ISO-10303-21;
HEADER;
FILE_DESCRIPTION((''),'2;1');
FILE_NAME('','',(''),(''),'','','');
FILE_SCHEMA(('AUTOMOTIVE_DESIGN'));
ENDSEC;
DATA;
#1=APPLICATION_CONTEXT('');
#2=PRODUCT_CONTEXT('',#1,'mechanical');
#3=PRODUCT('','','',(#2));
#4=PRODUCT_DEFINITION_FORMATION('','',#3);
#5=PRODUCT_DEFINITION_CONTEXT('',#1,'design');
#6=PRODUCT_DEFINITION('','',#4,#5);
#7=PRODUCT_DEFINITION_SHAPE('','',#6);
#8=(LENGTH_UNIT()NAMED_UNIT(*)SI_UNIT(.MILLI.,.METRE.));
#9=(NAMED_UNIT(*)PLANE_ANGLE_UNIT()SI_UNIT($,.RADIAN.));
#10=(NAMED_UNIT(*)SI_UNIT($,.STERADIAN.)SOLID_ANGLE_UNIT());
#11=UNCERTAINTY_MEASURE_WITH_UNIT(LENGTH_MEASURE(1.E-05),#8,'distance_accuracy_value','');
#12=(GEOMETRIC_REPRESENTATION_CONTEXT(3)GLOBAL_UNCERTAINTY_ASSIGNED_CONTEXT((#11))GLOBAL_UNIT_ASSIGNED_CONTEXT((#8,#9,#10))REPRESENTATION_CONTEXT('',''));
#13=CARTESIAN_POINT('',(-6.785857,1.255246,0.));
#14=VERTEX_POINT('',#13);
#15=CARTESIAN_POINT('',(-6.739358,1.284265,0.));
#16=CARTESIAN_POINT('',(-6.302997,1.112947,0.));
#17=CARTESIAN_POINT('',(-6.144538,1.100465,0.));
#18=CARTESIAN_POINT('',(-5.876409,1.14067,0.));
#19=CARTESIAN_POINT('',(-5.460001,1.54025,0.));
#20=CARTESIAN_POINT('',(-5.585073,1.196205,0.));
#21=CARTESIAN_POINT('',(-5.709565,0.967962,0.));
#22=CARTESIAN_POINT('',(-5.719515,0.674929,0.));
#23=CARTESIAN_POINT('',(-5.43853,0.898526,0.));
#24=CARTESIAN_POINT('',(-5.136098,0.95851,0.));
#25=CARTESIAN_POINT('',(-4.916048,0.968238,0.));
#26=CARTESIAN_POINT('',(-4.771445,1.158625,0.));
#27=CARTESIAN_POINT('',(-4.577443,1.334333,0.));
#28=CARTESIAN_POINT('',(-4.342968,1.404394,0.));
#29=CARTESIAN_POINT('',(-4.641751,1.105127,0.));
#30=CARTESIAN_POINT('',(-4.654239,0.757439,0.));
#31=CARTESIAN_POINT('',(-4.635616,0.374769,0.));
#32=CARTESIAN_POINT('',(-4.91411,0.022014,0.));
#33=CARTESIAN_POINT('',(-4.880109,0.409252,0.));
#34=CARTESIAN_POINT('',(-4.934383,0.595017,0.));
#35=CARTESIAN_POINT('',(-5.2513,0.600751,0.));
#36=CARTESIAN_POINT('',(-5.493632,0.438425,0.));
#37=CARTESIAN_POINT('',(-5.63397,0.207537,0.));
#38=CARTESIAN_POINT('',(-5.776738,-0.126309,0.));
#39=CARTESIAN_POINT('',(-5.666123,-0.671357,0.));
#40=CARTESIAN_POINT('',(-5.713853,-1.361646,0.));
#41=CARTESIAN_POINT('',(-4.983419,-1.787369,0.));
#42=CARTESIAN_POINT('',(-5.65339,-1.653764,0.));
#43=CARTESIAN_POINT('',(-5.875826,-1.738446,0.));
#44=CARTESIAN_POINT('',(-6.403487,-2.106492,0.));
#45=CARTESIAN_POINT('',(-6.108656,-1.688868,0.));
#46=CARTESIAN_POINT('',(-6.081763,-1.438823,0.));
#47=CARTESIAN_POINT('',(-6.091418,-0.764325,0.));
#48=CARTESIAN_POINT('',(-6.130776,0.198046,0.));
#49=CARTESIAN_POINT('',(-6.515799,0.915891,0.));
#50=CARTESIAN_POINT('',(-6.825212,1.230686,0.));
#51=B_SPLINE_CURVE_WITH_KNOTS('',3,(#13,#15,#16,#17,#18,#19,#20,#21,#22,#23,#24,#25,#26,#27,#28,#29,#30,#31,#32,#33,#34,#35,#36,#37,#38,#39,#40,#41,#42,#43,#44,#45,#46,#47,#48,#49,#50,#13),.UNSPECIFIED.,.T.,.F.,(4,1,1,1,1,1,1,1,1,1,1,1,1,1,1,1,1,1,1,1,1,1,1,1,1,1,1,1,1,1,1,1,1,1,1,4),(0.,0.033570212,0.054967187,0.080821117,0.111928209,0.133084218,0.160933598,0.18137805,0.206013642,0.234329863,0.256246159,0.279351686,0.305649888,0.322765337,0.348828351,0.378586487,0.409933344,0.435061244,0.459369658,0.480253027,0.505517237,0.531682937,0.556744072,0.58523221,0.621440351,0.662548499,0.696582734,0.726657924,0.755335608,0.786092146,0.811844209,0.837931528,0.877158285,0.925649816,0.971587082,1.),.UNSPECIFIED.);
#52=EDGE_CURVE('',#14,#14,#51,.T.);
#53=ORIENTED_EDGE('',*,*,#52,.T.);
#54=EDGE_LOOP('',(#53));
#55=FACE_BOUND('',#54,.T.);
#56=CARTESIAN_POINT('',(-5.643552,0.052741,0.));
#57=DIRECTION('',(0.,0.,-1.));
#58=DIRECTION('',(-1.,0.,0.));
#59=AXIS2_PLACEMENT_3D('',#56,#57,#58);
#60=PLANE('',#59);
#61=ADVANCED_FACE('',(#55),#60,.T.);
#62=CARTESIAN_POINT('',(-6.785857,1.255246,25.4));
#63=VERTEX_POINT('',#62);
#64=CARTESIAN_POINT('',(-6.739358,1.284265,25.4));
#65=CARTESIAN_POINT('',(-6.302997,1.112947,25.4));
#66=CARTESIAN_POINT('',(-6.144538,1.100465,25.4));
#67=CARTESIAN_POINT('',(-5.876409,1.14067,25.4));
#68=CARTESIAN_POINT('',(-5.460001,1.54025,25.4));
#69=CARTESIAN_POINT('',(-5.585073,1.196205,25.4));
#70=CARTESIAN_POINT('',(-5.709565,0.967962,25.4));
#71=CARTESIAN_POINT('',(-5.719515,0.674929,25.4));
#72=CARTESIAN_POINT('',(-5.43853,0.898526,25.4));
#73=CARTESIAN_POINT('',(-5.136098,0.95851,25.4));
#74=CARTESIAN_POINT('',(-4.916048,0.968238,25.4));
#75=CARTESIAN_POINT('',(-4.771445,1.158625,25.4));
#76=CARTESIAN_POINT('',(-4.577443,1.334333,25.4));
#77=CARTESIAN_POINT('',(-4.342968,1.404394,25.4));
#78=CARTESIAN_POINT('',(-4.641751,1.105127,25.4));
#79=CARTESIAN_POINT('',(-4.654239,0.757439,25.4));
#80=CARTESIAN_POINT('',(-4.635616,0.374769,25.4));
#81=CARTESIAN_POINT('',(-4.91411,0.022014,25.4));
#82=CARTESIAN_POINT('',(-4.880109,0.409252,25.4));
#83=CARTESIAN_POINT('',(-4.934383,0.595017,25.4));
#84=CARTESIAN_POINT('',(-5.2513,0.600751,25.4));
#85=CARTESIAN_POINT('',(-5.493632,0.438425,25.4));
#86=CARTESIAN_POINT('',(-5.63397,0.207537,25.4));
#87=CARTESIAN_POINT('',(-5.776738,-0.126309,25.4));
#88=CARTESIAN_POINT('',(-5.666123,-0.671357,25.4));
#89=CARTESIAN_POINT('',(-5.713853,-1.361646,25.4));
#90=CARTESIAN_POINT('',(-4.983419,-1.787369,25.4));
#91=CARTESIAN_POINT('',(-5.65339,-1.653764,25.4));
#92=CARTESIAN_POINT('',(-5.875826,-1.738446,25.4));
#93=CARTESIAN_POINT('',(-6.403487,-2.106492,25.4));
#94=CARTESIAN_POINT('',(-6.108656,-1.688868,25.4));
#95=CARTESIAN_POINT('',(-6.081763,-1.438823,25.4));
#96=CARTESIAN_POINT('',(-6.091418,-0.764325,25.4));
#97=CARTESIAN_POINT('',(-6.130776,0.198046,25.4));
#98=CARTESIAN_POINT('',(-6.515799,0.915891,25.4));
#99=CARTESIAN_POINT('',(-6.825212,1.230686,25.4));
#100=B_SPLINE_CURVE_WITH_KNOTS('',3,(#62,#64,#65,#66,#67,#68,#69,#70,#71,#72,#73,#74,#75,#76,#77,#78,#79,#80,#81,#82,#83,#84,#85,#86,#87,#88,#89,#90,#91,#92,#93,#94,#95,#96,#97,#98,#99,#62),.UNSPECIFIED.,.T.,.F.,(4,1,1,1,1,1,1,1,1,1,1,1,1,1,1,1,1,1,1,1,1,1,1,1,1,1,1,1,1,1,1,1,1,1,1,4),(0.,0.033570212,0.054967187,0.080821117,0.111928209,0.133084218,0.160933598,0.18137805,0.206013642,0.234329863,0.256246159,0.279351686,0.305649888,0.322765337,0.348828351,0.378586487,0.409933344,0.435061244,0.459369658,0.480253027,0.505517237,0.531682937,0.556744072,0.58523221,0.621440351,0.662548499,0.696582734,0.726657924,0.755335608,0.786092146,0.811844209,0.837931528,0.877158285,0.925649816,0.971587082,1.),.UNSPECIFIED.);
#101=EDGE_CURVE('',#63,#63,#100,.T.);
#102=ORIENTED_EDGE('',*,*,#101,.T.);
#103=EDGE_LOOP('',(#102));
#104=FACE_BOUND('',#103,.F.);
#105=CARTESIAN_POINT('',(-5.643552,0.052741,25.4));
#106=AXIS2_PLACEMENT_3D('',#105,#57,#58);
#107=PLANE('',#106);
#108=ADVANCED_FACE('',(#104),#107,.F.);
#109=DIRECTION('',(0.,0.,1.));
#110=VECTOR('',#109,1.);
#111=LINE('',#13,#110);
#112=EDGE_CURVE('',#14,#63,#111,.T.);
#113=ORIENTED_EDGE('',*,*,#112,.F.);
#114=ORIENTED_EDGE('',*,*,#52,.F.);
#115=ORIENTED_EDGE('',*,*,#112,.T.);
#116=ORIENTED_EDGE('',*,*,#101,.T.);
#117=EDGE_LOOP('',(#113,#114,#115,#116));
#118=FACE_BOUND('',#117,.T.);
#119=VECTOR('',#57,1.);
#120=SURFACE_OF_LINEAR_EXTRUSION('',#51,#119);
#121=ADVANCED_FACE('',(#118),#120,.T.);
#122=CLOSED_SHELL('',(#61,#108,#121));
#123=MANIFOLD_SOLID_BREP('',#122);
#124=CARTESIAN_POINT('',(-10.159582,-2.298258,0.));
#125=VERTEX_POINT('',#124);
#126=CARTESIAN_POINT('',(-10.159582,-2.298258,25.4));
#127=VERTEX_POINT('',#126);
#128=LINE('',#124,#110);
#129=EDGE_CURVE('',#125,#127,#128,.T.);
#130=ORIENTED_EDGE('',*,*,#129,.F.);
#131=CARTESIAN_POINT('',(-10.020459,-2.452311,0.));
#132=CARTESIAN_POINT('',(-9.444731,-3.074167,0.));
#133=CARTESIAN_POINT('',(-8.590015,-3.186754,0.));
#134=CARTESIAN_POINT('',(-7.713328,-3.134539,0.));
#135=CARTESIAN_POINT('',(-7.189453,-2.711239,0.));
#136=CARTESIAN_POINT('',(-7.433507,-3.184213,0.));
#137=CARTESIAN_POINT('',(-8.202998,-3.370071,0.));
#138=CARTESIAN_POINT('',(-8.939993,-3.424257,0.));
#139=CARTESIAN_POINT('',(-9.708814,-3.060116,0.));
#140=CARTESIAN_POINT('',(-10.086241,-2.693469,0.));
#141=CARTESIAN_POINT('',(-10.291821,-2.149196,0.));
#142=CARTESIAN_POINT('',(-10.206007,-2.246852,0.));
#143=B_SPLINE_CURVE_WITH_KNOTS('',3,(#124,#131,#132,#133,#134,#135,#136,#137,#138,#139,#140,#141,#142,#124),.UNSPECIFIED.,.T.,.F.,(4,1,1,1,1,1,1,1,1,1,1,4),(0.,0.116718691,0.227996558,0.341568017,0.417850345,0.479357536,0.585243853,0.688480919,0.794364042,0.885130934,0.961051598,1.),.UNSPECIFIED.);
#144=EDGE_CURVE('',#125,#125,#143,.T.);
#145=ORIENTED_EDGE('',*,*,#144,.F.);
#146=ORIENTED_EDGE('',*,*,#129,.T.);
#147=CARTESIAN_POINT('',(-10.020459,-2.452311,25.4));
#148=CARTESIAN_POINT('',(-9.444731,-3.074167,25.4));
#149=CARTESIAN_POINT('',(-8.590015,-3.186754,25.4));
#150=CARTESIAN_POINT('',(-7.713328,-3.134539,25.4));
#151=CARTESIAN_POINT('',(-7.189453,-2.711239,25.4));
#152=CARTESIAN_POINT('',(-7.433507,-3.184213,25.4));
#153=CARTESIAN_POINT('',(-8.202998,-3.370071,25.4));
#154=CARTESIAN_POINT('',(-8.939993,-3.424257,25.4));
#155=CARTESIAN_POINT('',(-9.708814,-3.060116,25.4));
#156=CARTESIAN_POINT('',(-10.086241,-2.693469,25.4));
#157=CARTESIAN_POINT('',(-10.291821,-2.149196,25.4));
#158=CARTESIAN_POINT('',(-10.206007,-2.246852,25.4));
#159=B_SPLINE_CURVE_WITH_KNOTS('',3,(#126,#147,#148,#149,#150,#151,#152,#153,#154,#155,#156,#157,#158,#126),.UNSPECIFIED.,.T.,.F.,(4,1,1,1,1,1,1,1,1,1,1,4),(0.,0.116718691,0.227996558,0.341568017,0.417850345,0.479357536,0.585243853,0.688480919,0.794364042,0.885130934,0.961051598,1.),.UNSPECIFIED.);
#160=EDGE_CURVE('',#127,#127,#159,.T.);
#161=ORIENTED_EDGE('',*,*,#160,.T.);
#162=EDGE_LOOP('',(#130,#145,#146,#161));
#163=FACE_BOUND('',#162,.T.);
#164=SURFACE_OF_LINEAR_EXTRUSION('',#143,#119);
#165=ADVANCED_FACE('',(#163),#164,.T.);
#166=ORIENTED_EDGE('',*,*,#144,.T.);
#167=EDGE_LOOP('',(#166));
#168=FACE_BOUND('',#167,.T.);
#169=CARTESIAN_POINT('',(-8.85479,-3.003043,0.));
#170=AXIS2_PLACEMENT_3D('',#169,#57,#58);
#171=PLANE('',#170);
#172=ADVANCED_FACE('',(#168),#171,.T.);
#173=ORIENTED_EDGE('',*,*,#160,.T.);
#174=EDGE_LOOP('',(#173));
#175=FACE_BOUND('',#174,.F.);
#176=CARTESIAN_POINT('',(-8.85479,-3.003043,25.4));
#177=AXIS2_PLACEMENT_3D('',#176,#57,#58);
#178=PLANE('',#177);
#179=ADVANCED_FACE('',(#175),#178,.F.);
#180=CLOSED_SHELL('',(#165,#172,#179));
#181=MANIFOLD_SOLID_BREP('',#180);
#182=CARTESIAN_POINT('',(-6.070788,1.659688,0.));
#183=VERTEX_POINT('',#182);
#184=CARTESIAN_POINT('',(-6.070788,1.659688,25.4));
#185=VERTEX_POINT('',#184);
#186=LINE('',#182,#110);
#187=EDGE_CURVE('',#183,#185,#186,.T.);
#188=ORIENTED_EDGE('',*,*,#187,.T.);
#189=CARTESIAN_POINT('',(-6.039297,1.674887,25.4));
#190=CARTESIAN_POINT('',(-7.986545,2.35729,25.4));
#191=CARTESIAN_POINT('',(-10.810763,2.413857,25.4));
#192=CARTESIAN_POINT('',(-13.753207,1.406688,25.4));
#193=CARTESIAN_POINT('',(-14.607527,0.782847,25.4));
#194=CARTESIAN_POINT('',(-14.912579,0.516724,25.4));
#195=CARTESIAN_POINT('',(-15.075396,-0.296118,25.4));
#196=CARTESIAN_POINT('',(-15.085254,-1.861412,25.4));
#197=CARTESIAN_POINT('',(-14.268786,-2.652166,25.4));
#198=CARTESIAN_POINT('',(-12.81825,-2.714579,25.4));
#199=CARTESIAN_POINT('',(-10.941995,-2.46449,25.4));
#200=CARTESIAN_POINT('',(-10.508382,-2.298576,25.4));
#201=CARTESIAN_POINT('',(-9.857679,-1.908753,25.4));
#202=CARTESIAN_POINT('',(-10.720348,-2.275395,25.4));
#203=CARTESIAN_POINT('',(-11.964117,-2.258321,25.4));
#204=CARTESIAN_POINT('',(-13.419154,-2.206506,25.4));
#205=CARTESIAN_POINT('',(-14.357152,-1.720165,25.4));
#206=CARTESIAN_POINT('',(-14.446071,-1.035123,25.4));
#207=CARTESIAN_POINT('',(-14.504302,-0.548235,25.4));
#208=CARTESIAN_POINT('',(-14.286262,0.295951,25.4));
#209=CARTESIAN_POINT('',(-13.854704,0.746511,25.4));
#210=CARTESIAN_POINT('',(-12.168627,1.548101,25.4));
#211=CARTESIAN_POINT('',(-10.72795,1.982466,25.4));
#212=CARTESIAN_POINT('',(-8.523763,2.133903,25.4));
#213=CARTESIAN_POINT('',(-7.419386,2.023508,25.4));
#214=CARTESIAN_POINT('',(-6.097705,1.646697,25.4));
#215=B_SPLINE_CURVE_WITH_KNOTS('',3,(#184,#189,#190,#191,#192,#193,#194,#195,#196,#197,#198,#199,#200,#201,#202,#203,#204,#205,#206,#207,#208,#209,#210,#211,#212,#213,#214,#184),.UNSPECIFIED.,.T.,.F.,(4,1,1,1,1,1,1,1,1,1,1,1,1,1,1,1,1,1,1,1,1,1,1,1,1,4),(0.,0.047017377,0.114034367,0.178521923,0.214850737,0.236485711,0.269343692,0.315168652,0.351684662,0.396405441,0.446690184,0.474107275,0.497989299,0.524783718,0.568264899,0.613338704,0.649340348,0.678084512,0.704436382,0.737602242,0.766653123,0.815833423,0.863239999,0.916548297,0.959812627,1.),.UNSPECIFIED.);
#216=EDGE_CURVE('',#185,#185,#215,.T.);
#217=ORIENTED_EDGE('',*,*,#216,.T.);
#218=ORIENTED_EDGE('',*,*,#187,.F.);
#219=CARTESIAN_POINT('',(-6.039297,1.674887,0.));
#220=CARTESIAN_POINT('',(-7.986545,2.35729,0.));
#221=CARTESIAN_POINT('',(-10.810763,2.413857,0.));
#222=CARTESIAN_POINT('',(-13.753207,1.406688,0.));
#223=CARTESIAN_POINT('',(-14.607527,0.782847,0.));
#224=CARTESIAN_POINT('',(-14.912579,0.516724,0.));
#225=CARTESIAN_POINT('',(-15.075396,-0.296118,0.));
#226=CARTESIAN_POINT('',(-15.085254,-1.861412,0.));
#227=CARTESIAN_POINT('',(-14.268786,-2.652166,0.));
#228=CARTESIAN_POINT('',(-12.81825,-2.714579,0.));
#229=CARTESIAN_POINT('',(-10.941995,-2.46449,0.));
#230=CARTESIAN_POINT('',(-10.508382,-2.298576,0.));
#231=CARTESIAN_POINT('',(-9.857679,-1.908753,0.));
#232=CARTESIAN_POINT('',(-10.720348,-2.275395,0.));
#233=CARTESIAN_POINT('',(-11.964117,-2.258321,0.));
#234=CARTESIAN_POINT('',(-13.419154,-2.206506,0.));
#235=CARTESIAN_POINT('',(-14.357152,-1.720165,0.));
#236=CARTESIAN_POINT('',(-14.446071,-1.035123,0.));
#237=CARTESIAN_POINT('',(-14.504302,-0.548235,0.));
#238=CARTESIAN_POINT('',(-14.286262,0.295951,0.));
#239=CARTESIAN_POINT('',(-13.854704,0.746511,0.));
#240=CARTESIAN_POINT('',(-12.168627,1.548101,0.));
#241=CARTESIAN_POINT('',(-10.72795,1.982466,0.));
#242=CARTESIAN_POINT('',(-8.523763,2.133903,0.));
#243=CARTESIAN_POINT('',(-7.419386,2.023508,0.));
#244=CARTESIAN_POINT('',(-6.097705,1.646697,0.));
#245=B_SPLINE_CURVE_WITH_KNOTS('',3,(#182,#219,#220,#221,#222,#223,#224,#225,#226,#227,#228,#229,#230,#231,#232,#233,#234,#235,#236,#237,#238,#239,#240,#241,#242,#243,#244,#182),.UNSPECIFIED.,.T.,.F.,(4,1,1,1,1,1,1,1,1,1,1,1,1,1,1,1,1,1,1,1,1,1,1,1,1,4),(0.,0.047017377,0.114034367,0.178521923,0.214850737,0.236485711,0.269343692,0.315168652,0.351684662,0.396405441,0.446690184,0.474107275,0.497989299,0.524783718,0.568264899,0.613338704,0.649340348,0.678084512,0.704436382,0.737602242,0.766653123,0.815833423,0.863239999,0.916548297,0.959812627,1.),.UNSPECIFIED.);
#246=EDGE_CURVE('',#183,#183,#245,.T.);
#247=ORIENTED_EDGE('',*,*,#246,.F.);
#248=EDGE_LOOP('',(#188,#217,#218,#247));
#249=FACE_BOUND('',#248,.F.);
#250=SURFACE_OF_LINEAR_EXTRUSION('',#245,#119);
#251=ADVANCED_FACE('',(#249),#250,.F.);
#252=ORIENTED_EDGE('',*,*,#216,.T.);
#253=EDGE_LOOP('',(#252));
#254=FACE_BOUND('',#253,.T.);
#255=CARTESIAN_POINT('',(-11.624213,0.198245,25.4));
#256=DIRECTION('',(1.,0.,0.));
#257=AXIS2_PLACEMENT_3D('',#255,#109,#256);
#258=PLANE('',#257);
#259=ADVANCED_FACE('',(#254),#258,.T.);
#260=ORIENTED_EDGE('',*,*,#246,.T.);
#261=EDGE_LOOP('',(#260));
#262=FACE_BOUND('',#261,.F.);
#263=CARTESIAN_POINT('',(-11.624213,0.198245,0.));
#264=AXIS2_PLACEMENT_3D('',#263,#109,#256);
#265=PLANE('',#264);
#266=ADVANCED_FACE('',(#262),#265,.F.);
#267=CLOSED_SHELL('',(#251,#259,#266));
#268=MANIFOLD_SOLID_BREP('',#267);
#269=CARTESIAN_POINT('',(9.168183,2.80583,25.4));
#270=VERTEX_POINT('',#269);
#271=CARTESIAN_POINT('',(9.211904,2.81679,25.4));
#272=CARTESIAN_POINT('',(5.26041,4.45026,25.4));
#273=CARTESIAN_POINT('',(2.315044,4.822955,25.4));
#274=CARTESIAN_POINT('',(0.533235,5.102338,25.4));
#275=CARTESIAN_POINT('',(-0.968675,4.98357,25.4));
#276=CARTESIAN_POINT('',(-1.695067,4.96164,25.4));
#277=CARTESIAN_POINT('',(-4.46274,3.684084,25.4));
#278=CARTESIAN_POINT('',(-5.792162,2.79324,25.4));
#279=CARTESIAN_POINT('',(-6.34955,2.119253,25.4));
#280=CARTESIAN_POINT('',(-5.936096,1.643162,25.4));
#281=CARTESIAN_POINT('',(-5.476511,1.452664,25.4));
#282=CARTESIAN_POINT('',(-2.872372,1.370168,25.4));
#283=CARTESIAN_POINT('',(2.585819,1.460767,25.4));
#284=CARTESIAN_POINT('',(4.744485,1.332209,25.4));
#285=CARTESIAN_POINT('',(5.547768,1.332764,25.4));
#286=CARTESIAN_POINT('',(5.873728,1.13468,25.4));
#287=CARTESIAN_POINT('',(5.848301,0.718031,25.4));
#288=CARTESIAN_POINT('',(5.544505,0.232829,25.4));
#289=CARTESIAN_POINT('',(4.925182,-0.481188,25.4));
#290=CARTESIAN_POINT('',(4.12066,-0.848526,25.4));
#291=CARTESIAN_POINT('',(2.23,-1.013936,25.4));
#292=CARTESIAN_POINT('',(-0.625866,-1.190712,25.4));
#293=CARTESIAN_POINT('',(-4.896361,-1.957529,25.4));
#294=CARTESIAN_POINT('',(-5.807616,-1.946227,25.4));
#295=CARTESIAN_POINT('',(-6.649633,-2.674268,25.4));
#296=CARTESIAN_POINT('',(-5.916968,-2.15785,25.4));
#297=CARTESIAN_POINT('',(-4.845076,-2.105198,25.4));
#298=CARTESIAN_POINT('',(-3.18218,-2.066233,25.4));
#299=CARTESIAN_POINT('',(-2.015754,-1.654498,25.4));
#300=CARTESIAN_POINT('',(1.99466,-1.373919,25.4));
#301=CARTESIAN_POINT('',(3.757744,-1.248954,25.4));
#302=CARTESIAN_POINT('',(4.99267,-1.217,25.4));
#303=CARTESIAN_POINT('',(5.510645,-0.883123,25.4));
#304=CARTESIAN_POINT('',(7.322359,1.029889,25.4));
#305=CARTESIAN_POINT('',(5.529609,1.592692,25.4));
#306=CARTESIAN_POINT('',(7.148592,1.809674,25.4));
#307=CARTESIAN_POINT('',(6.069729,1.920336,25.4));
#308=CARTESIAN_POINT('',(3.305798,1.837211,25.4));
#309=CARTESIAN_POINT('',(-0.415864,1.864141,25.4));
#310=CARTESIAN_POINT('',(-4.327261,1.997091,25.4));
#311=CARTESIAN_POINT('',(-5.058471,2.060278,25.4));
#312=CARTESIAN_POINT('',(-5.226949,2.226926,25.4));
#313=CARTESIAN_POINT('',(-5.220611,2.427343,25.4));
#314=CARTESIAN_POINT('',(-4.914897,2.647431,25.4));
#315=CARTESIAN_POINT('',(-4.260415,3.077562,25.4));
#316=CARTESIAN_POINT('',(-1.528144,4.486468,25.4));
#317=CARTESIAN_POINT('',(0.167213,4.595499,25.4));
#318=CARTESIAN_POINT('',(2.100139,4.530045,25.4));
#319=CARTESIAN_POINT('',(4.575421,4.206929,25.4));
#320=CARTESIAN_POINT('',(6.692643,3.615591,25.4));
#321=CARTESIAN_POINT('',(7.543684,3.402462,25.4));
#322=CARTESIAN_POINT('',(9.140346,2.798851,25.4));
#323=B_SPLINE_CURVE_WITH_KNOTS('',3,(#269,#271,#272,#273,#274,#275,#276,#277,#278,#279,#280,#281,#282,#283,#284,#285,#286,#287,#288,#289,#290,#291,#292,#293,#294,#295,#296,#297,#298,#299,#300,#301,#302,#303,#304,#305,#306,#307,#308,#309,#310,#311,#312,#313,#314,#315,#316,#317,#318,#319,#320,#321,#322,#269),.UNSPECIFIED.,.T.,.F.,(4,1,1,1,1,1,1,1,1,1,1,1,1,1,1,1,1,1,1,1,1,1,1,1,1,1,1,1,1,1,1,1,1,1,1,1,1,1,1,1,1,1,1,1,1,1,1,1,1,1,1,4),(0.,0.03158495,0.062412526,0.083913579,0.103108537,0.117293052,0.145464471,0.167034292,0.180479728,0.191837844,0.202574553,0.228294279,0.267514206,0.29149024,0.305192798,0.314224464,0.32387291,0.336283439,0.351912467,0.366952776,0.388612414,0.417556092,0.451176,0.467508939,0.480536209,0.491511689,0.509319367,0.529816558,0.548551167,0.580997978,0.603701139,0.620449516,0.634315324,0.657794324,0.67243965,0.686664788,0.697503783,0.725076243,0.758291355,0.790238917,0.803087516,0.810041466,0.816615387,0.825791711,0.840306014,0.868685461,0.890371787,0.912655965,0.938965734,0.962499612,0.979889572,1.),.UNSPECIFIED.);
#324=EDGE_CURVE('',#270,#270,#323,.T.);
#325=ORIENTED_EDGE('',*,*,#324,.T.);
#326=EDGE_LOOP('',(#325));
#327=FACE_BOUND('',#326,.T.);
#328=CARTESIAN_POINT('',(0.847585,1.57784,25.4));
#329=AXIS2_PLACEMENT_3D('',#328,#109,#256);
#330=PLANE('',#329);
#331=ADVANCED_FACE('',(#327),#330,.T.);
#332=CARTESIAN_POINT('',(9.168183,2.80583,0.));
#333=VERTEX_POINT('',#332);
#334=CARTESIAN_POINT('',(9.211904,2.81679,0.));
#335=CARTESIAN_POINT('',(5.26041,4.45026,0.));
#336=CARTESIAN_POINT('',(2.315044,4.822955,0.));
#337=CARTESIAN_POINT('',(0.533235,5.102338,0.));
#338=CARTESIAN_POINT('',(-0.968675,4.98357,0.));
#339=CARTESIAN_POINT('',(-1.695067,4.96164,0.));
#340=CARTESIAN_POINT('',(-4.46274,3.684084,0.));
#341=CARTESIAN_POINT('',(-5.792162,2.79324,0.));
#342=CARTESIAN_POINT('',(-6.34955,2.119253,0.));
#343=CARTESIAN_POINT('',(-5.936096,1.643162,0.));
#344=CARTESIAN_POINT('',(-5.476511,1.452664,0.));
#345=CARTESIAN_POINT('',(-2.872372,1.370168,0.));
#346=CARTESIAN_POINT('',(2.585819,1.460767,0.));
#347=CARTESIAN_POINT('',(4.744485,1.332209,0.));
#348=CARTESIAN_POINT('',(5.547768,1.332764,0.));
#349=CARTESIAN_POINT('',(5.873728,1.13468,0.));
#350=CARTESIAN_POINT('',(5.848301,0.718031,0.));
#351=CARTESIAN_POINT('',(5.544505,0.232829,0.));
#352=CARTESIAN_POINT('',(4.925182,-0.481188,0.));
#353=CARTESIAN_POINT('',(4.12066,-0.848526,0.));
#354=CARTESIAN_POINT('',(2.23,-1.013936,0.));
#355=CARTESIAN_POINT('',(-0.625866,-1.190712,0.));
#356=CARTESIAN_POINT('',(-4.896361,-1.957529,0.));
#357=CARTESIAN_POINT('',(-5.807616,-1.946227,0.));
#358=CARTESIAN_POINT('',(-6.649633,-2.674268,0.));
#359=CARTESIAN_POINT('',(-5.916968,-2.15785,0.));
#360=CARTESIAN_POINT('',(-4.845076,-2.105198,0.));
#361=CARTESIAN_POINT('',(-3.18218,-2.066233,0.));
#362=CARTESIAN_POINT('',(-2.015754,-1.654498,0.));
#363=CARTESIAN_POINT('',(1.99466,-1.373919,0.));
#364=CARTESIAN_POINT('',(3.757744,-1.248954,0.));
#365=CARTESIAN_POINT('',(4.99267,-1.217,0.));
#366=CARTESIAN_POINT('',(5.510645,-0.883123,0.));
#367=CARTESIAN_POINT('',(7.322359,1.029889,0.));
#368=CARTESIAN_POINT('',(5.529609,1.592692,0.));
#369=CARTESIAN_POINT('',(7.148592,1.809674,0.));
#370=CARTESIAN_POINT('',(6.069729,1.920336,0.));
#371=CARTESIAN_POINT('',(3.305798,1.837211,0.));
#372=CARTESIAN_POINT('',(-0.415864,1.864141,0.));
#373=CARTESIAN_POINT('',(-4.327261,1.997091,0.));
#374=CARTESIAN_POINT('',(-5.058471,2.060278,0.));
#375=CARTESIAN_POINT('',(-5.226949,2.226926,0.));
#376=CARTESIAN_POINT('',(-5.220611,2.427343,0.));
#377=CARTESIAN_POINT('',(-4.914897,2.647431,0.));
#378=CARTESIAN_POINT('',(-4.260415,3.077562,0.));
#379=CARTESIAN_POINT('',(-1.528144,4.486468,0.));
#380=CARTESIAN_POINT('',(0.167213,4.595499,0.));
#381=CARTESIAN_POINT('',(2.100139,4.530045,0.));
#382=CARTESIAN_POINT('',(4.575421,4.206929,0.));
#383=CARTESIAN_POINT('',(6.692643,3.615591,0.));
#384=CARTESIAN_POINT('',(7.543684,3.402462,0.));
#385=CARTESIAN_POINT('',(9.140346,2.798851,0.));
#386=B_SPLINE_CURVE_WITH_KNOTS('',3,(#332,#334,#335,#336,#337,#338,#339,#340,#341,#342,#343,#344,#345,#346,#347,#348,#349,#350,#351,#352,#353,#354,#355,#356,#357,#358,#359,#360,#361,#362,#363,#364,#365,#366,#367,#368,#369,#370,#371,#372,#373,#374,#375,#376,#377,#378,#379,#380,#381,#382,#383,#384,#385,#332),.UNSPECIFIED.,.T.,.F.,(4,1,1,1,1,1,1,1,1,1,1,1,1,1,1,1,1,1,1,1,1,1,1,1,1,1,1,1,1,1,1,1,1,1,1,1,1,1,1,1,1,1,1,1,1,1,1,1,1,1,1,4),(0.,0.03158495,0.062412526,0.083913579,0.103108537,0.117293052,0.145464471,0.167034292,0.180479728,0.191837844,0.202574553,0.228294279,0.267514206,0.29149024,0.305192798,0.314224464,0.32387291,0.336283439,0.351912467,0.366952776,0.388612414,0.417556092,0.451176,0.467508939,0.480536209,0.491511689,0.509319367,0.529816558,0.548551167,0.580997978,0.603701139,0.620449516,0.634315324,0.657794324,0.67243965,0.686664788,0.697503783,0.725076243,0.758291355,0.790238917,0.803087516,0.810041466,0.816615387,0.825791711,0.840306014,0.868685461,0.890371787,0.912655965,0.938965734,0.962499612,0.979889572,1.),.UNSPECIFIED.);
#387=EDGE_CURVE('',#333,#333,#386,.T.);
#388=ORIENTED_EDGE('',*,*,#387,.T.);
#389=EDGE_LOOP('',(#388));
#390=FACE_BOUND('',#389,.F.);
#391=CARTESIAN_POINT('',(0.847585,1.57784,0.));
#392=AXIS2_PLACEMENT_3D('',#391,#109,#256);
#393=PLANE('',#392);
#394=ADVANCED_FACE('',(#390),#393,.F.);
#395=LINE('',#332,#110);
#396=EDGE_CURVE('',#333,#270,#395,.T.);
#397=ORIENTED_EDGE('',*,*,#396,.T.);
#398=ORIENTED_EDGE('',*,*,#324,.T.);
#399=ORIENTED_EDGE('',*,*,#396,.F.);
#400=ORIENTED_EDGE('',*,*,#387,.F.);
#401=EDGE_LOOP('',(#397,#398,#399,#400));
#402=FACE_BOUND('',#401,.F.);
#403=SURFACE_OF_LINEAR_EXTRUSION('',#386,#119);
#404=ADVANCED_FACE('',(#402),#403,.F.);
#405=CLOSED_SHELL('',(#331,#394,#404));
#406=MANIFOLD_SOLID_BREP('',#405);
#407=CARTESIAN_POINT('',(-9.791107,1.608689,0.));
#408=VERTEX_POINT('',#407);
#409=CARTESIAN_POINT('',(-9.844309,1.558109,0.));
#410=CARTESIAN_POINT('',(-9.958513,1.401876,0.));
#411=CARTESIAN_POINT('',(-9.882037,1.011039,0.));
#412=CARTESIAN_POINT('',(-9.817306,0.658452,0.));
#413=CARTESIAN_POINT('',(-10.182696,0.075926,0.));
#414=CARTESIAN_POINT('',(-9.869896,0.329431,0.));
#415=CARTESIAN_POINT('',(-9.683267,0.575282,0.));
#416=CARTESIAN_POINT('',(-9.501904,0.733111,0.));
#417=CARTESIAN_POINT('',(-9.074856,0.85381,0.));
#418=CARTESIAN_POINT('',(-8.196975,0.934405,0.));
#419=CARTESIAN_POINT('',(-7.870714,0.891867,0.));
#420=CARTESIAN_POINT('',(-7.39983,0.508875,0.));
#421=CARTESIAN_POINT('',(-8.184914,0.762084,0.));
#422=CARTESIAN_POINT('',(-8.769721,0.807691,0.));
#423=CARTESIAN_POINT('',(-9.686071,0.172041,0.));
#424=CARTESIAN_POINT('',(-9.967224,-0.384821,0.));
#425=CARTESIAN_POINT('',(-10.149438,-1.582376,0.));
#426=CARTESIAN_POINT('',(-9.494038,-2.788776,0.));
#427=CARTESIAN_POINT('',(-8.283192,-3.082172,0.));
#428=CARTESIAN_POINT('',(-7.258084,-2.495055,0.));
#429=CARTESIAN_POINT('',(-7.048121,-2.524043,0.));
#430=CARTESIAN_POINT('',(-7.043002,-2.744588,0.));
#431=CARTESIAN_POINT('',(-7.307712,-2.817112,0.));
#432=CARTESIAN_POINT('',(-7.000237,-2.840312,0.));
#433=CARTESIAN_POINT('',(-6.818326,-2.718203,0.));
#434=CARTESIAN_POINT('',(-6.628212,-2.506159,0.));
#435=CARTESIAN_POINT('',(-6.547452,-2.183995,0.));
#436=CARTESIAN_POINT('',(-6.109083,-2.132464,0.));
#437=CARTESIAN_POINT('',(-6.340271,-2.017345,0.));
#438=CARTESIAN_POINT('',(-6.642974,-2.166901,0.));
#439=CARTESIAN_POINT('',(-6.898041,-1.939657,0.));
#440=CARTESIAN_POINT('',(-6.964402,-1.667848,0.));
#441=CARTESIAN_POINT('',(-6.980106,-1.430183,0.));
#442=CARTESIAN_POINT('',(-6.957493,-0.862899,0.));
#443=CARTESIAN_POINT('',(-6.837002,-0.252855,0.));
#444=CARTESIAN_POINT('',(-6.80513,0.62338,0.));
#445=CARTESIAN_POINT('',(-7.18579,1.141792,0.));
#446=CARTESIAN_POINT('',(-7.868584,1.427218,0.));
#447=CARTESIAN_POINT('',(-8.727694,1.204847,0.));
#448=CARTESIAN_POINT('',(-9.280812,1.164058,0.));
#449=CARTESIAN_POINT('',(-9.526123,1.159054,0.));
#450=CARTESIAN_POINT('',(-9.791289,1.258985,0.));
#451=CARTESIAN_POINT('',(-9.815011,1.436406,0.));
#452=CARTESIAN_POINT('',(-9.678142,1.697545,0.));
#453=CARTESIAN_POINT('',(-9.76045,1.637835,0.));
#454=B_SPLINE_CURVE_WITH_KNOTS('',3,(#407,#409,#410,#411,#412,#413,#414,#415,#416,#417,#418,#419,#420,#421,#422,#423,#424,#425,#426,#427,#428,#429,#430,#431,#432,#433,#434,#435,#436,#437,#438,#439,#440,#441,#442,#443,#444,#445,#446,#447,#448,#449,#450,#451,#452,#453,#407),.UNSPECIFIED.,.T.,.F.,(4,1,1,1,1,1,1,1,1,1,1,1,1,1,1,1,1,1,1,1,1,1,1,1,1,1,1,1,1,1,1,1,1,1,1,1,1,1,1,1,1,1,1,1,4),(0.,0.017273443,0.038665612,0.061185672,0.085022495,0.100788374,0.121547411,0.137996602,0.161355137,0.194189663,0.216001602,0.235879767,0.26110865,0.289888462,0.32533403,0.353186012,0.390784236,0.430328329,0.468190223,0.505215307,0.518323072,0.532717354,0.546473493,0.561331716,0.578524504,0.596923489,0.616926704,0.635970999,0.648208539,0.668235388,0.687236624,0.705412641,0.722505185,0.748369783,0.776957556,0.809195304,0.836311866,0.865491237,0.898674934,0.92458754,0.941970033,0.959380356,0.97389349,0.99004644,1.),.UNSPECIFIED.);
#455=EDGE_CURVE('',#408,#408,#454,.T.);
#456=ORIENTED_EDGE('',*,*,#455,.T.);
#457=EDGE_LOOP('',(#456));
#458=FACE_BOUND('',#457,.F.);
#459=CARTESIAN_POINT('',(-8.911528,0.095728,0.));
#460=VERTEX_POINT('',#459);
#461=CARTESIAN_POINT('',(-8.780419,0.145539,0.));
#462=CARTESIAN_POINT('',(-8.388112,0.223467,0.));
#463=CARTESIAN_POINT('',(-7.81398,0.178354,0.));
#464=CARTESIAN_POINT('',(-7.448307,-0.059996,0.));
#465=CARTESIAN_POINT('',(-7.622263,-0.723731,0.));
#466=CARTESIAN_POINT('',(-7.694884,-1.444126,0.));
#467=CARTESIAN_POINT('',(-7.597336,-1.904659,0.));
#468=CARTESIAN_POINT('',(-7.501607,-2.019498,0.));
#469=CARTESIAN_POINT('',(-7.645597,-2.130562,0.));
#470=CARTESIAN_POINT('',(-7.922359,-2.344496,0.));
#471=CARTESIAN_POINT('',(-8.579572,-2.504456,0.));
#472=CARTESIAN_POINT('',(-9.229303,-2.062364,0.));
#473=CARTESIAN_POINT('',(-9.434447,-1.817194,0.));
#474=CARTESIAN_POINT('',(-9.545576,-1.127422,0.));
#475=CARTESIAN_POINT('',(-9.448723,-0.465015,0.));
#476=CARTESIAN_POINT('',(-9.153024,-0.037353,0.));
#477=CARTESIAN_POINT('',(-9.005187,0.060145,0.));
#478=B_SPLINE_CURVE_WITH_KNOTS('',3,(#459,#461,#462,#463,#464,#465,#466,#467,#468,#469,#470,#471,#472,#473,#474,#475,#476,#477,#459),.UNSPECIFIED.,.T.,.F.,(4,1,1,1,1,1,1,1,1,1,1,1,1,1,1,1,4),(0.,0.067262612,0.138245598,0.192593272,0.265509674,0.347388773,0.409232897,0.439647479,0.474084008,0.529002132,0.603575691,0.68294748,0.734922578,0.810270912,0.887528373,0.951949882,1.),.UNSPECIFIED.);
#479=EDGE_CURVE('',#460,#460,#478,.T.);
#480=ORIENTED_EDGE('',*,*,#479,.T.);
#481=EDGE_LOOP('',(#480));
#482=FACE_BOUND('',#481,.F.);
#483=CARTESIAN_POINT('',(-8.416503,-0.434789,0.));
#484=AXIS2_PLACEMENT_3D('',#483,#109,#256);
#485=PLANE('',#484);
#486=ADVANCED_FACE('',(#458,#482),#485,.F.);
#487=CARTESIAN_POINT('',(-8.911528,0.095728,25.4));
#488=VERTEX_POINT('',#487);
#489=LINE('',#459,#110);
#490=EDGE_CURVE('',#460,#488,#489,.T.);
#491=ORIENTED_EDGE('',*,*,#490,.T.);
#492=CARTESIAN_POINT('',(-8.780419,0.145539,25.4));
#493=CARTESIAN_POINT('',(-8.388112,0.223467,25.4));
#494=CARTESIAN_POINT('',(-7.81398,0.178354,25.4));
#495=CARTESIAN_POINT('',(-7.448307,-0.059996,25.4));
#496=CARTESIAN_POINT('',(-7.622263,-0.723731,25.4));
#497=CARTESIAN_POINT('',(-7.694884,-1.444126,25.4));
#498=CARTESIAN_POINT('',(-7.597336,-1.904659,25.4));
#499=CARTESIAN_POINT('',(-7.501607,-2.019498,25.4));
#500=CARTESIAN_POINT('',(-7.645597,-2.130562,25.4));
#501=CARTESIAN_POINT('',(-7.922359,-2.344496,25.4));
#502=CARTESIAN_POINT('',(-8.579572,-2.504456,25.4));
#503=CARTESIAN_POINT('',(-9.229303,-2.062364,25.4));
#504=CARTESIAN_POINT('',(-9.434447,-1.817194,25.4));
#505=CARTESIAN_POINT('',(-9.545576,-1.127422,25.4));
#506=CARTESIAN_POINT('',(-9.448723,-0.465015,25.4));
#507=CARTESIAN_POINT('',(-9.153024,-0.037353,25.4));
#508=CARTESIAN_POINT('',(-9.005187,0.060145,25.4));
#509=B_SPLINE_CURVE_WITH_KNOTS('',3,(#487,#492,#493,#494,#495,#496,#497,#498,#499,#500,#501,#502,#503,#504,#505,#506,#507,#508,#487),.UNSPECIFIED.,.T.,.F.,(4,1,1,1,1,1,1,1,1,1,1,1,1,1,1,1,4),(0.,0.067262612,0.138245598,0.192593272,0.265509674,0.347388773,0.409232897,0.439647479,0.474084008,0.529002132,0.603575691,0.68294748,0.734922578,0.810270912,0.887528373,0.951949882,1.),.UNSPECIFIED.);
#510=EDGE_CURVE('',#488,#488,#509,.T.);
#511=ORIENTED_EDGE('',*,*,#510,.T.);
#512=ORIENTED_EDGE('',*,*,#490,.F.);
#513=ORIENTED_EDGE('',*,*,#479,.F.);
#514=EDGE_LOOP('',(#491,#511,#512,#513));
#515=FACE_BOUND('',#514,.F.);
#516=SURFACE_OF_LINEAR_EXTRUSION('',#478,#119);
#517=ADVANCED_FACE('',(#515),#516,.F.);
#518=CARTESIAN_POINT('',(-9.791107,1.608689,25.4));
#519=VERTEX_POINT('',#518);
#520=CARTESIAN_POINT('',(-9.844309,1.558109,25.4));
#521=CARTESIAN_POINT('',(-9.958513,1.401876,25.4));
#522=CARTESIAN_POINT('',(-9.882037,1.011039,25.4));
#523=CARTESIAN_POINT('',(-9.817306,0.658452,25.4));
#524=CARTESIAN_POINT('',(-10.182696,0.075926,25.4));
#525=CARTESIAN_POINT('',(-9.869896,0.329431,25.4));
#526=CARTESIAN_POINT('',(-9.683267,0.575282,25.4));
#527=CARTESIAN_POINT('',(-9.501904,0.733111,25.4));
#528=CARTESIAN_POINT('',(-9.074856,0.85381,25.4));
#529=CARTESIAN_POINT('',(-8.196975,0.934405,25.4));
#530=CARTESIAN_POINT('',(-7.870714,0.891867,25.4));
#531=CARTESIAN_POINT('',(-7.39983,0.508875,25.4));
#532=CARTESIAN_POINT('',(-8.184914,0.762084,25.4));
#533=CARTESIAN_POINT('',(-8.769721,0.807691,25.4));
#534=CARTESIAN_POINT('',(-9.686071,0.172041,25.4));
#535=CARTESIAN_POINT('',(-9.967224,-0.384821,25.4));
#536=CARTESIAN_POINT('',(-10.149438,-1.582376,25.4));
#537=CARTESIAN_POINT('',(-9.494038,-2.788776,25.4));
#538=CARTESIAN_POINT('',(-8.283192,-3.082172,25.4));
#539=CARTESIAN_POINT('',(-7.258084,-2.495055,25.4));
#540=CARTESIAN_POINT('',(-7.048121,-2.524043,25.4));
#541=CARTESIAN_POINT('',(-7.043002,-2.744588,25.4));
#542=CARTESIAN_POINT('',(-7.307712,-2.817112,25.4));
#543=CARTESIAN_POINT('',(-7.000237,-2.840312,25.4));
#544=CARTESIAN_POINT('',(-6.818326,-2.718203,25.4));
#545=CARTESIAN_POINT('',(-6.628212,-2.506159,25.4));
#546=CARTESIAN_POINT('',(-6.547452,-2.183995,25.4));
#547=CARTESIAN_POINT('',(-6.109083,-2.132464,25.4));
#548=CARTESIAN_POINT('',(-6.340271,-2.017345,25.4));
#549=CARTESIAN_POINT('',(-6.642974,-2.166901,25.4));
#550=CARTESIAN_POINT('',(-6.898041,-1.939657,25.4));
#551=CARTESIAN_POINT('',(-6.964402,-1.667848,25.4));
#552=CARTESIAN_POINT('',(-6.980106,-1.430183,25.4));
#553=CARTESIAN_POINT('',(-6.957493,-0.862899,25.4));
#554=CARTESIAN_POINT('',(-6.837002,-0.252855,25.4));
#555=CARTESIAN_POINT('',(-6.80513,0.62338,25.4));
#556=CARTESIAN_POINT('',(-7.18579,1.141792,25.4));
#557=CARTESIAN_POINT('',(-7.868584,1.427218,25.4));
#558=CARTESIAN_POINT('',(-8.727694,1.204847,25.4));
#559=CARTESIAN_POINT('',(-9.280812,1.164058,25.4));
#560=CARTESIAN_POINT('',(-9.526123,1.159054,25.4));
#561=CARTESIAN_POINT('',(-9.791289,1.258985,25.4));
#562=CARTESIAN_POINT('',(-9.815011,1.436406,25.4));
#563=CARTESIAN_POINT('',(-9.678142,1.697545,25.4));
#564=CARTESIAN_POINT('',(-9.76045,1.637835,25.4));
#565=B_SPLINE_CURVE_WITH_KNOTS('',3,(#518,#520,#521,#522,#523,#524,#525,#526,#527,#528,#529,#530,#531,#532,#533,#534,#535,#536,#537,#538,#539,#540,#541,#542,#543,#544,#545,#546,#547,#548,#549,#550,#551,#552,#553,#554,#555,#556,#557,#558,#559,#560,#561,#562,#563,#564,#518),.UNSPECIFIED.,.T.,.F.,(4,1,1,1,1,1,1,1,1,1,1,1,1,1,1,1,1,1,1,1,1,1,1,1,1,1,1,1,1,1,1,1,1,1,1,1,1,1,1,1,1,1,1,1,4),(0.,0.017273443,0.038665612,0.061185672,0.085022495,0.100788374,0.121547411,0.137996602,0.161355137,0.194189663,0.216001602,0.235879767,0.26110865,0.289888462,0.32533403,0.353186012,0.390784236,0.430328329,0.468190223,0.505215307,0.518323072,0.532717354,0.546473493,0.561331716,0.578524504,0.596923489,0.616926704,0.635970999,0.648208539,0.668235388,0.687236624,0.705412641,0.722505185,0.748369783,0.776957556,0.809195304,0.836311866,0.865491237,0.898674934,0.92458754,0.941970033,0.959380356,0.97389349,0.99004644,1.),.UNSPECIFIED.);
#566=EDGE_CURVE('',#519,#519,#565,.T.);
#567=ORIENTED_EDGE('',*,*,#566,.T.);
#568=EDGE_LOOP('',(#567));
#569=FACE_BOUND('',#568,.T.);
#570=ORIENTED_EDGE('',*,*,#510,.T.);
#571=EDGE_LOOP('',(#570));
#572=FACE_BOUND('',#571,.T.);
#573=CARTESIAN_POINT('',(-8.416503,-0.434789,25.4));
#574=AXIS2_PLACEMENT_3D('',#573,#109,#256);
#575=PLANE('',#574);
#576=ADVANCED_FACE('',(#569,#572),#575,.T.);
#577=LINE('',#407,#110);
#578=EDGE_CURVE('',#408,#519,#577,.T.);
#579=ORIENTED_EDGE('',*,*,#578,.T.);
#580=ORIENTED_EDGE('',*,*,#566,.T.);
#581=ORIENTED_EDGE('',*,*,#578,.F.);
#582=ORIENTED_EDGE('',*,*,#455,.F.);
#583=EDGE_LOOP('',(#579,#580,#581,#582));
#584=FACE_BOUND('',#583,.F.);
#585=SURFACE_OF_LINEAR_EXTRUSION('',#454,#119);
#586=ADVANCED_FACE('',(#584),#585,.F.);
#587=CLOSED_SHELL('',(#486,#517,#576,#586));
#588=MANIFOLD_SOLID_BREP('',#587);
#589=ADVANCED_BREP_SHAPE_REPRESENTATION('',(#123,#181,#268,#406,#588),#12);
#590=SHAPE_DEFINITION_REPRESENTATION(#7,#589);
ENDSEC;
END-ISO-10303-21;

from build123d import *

# Parameters (mm, degrees)
F1_DEPTH = 25.4


with BuildPart() as f1:
    # F0 (on Top) → F1 (new body)
    with BuildSketch(Plane.XY):
        with BuildLine():
            add(Edge.make_bspline(
                [(-6.070788067, 1.659688225), (-6.0392969105, 1.6748872636), (-7.9865450854, 2.3572901074), (-10.810763013, 2.4138569999), (-13.7532069018, 1.4066882336), (-14.607527423, 0.7828469998), (-14.9125791538, 0.5167235568), (-15.0753964581, -0.2961176011), (-15.0852540529, -1.8614116088), (-14.2687864055, -2.6521656901), (-12.8182498806, -2.7145787636), (-10.9419950316, -2.464490446), (-10.5083824487, -2.2985761302), (-9.8576791767, -1.9087534897), (-10.7203476657, -2.2753952771), (-11.9641168756, -2.2583214018), (-13.4191535903, -2.2065056144), (-14.3571519855, -1.7201650346), (-14.4460714924, -1.0351234837), (-14.5043018219, -0.5482353129), (-14.2862617607, 0.2959506723), (-13.8547044173, 0.7465105042), (-12.1686272317, 1.5481007851), (-10.7279497821, 1.9824659981), (-8.52376253, 2.1339031435), (-7.4193863465, 2.0235082642), (-6.0977046435, 1.6466970829), (-6.070788067, 1.659688225)],
                knots=[0, 0, 0, 0, 0.0470173774, 0.1140343672, 0.1785219227, 0.2148507368, 0.2364857108, 0.269343692, 0.3151686522, 0.3516846616, 0.3964054409, 0.4466901844, 0.4741072755, 0.4979892985, 0.5247837183, 0.5682648993, 0.6133387041, 0.6493403477, 0.678084512, 0.7044363816, 0.7376022424, 0.7666531228, 0.8158334235, 0.8632399992, 0.9165482967, 0.9598126273, 1, 1, 1, 1], degree=3))
        make_face()
    extrude(amount=F1_DEPTH)


with BuildPart() as f1b:
    # F0 (on Top) → F1, piece 2 (new body)
    with BuildSketch(Plane.XY):
        with BuildLine():
            add(Edge.make_bspline(
                [(-9.791106917, 1.6086887335), (-9.8443086416, 1.5581086816), (-9.9585129703, 1.4018757041), (-9.8820370658, 1.0110390806), (-9.817305942, 0.6584520686), (-10.1826959947, 0.0759263229), (-9.8698956316, 0.3294309989), (-9.6832672824, 0.5752821875), (-9.5019037684, 0.7331112092), (-9.0748558579, 0.853810458), (-8.1969748997, 0.9344048142), (-7.8707136783, 0.891866703), (-7.3998301175, 0.5088749138), (-8.1849141462, 0.762084428), (-8.7697211274, 0.8076908286), (-9.6860709341, 0.1720405395), (-9.9672235856, -0.3848208056), (-10.1494375786, -1.5823760136), (-9.4940381411, -2.788775919), (-8.2831917167, -3.0821720836), (-7.2580844662, -2.4950553876), (-7.0481212343, -2.524043437), (-7.0430017174, -2.7445875955), (-7.3077120909, -2.8171123456), (-7.000236836, -2.840312424), (-6.8183264394, -2.7182032201), (-6.6282119952, -2.5061587108), (-6.5474521364, -2.183995317), (-6.1090825036, -2.1324642748), (-6.3402711765, -2.0173445866), (-6.6429739084, -2.1669005591), (-6.8980413977, -1.939657288), (-6.9644023333, -1.6678479725), (-6.9801063123, -1.4301825473), (-6.9574931387, -0.8628985787), (-6.837001805, -0.2528547285), (-6.8051295095, 0.623380344), (-7.1857904338, 1.1417918396), (-7.8685844335, 1.4272183972), (-8.7276944883, 1.2048468112), (-9.2808116205, 1.1640576892), (-9.5261233649, 1.1590539083), (-9.791289358, 1.2589851582), (-9.8150113023, 1.436405675), (-9.6781424404, 1.6975450566), (-9.7604502293, 1.637834722), (-9.791106917, 1.6086887335)],
                knots=[0, 0, 0, 0, 0.0172734433, 0.0386656122, 0.061185672, 0.0850224954, 0.1007883741, 0.1215474113, 0.1379966024, 0.161355137, 0.1941896632, 0.2160016017, 0.2358797669, 0.2611086497, 0.2898884623, 0.3253340296, 0.3531860119, 0.3907842355, 0.4303283291, 0.4681902232, 0.5052153068, 0.5183230723, 0.5327173542, 0.5464734929, 0.5613317164, 0.578524504, 0.596923489, 0.6169267044, 0.6359709993, 0.6482085388, 0.6682353879, 0.6872366239, 0.7054126413, 0.7225051855, 0.7483697828, 0.7769575558, 0.8091953045, 0.8363118656, 0.8654912368, 0.8986749336, 0.9245875402, 0.9419700335, 0.9593803556, 0.9738934899, 0.9900464401, 1, 1, 1, 1], degree=3))
        make_face()
        with BuildLine():
            add(Edge.make_bspline(
                [(-8.9115276933, 0.0957282828), (-8.7804194826, 0.1455387874), (-8.3881116326, 0.223467294), (-7.8139803428, 0.1783538968), (-7.4483071552, -0.0599955626), (-7.6222626442, -0.7237311146), (-7.6948844108, -1.444126491), (-7.5973364276, -1.9046593727), (-7.5016068039, -2.0194980918), (-7.6455967046, -2.1305619317), (-7.9223594807, -2.3444959821), (-8.5795722879, -2.5044562919), (-9.2293027047, -2.0623639527), (-9.4344466009, -1.8171942861), (-9.5455763926, -1.1274216302), (-9.4487226952, -0.4650148261), (-9.153024252, -0.0373526318), (-9.00518693, 0.0601453561), (-8.9115276933, 0.0957282828)],
                knots=[0, 0, 0, 0, 0.0672626125, 0.1382455982, 0.192593272, 0.2655096739, 0.3473887733, 0.4092328973, 0.4396474788, 0.4740840082, 0.5290021322, 0.6035756913, 0.6829474805, 0.7349225777, 0.8102709122, 0.8875283729, 0.9519498823, 1, 1, 1, 1], degree=3))
        make_face(mode=Mode.SUBTRACT)
    extrude(amount=F1_DEPTH)


with BuildPart() as f1c:
    # F0 (on Top) → F1, piece 3 (new body)
    with BuildSketch(Plane.XY):
        with BuildLine():
            add(Edge.make_bspline(
                [(-10.1595818996, -2.2982584778), (-10.0204587708, -2.4523110986), (-9.444730516, -3.0741665944), (-8.5900149586, -3.1867543746), (-7.7133282337, -3.1345388414), (-7.1894530918, -2.7112393488), (-7.4335066497, -3.1842125758), (-8.2029980216, -3.3700707388), (-8.9399932061, -3.4242569618), (-9.7088144373, -3.0601157183), (-10.0862407779, -2.6934694578), (-10.291821493, -2.1491961374), (-10.2060065427, -2.2468519432), (-10.1595818996, -2.2982584778)],
                knots=[0, 0, 0, 0, 0.1167186912, 0.2279965584, 0.3415680165, 0.4178503453, 0.479357536, 0.585243853, 0.6884809193, 0.7943640422, 0.8851309339, 0.9610515978, 1, 1, 1, 1], degree=3))
        make_face()
    extrude(amount=F1_DEPTH)


with BuildPart() as f1d:
    # F0 (on Top) → F1, piece 4 (new body)
    with BuildSketch(Plane.XY):
        with BuildLine():
            add(Edge.make_bspline(
                [(-6.7858565599, 1.255246345), (-6.7393580058, 1.2842648356), (-6.302997031, 1.1129467932), (-6.1445376712, 1.1004648718), (-5.8764090382, 1.1406696061), (-5.4600010789, 1.5402498605), (-5.5850725088, 1.1962053151), (-5.7095648584, 0.9679617735), (-5.7195150646, 0.6749290271), (-5.4385298818, 0.8985258097), (-5.1360976436, 0.9585098817), (-4.9160480755, 0.9682378225), (-4.7714451044, 1.1586254794), (-4.5774425065, 1.3343328518), (-4.3429677173, 1.4043944569), (-4.6417512191, 1.1051270475), (-4.6542391308, 0.7574387708), (-4.6356162729, 0.3747685417), (-4.914110444, 0.022014044), (-4.8801090212, 0.4092522748), (-4.934383206, 0.5950171093), (-5.2512995928, 0.6007514984), (-5.4936321834, 0.438425167), (-5.6339699927, 0.2075368533), (-5.7767380259, -0.1263094385), (-5.6661227584, -0.6713570316), (-5.7138529984, -1.3616459563), (-4.9834190278, -1.7873686282), (-5.6533897019, -1.6537640901), (-5.8758255411, -1.7384463096), (-6.4034866828, -2.1064923177), (-6.108655691, -1.6888682656), (-6.0817626614, -1.4388231216), (-6.0914182562, -0.7643249762), (-6.1307762164, 0.1980461373), (-6.5157991984, 0.9158912845), (-6.8252116766, 1.2306858804), (-6.7858565599, 1.255246345)],
                knots=[0, 0, 0, 0, 0.0335702118, 0.0549671869, 0.0808211175, 0.1119282089, 0.1330842183, 0.1609335976, 0.18137805, 0.2060136421, 0.2343298628, 0.2562461586, 0.2793516856, 0.3056498883, 0.3227653373, 0.3488283514, 0.378586487, 0.4099333438, 0.4350612445, 0.4593696579, 0.4802530268, 0.5055172371, 0.5316829369, 0.556744072, 0.5852322099, 0.6214403508, 0.6625484994, 0.6965827338, 0.7266579235, 0.7553356082, 0.7860921461, 0.8118442093, 0.8379315277, 0.877158285, 0.9256498158, 0.971587082, 1, 1, 1, 1], degree=3))
        make_face()
    extrude(amount=F1_DEPTH)


with BuildPart() as f1e:
    # F0 (on Top) → F1, piece 5 (new body)
    with BuildSketch(Plane.XY):
        with BuildLine():
            add(Edge.make_bspline(
                [(9.168183431, 2.8058297466), (9.2119038929, 2.8167897094), (5.2604096611, 4.4502598927), (2.315044105, 4.822955438), (0.5332345217, 5.1023384292), (-0.9686751431, 4.983569556), (-1.6950665613, 4.9616400097), (-4.4627401043, 3.6840841154), (-5.7921618007, 2.7932401476), (-6.349549547, 2.1192532112), (-5.9360963362, 1.6431623867), (-5.4765109087, 1.4526637908), (-2.8723721338, 1.3701680074), (2.5858194574, 1.4607672585), (4.744484905, 1.3322087699), (5.5477683033, 1.3327644292), (5.8737281851, 1.1346801707), (5.8483012633, 0.7180312111), (5.5445048504, 0.2328286649), (4.9251824804, -0.4811878758), (4.1206596618, -0.8485255697), (2.2299995201, -1.0139355494), (-0.6258659865, -1.1907116818), (-4.8963614093, -1.9575287446), (-5.8076162535, -1.9462269032), (-6.6496328791, -2.6742681843), (-5.9169683055, -2.1578496823), (-4.8450761525, -2.105198148), (-3.1821802032, -2.0662328082), (-2.0157537993, -1.6544979463), (1.994660104, -1.3739193285), (3.7577436113, -1.248953543), (4.9926698875, -1.2169999007), (5.5106452035, -0.8831229745), (7.3223585419, 1.0298889225), (5.5296086146, 1.5926922837), (7.1485920666, 1.8096741251), (6.0697292285, 1.9203358606), (3.3057982212, 1.8372111721), (-0.4158637206, 1.8641413719), (-4.3272607946, 1.997090645), (-5.0584714053, 2.0602779218), (-5.22694939, 2.2269262738), (-5.2206112355, 2.4273427288), (-4.9148973011, 2.6474309971), (-4.260415291, 3.0775623486), (-1.5281438032, 4.4864683278), (0.1672129195, 4.5954992897), (2.1001391791, 4.5300447574), (4.5754213214, 4.2069287194), (6.692642677, 3.6155911635), (7.5436837079, 3.4024619373), (9.1403462107, 2.7988514375), (9.168183431, 2.8058297466)],
                knots=[0, 0, 0, 0, 0.0315849501, 0.0624125257, 0.083913579, 0.1031085371, 0.1172930523, 0.1454644713, 0.1670342923, 0.1804797278, 0.1918378444, 0.2025745532, 0.2282942786, 0.2675142064, 0.29149024, 0.305192798, 0.3142244641, 0.3238729099, 0.3362834393, 0.3519124668, 0.3669527757, 0.3886124143, 0.4175560923, 0.4511759999, 0.4675089393, 0.4805362087, 0.4915116893, 0.5093193666, 0.5298165582, 0.5485511667, 0.5809979783, 0.6037011394, 0.6204495161, 0.6343153243, 0.6577943241, 0.6724396504, 0.6866647875, 0.6975037829, 0.7250762431, 0.758291355, 0.7902389168, 0.8030875159, 0.8100414661, 0.8166153874, 0.8257917114, 0.8403060139, 0.8686854614, 0.8903717868, 0.9126559647, 0.9389657337, 0.9624996119, 0.9798895717, 1, 1, 1, 1], degree=3))
        make_face()
    extrude(amount=F1_DEPTH)


solid = Compound([f1.part, f1b.part, f1c.part, f1d.part, f1e.part])
